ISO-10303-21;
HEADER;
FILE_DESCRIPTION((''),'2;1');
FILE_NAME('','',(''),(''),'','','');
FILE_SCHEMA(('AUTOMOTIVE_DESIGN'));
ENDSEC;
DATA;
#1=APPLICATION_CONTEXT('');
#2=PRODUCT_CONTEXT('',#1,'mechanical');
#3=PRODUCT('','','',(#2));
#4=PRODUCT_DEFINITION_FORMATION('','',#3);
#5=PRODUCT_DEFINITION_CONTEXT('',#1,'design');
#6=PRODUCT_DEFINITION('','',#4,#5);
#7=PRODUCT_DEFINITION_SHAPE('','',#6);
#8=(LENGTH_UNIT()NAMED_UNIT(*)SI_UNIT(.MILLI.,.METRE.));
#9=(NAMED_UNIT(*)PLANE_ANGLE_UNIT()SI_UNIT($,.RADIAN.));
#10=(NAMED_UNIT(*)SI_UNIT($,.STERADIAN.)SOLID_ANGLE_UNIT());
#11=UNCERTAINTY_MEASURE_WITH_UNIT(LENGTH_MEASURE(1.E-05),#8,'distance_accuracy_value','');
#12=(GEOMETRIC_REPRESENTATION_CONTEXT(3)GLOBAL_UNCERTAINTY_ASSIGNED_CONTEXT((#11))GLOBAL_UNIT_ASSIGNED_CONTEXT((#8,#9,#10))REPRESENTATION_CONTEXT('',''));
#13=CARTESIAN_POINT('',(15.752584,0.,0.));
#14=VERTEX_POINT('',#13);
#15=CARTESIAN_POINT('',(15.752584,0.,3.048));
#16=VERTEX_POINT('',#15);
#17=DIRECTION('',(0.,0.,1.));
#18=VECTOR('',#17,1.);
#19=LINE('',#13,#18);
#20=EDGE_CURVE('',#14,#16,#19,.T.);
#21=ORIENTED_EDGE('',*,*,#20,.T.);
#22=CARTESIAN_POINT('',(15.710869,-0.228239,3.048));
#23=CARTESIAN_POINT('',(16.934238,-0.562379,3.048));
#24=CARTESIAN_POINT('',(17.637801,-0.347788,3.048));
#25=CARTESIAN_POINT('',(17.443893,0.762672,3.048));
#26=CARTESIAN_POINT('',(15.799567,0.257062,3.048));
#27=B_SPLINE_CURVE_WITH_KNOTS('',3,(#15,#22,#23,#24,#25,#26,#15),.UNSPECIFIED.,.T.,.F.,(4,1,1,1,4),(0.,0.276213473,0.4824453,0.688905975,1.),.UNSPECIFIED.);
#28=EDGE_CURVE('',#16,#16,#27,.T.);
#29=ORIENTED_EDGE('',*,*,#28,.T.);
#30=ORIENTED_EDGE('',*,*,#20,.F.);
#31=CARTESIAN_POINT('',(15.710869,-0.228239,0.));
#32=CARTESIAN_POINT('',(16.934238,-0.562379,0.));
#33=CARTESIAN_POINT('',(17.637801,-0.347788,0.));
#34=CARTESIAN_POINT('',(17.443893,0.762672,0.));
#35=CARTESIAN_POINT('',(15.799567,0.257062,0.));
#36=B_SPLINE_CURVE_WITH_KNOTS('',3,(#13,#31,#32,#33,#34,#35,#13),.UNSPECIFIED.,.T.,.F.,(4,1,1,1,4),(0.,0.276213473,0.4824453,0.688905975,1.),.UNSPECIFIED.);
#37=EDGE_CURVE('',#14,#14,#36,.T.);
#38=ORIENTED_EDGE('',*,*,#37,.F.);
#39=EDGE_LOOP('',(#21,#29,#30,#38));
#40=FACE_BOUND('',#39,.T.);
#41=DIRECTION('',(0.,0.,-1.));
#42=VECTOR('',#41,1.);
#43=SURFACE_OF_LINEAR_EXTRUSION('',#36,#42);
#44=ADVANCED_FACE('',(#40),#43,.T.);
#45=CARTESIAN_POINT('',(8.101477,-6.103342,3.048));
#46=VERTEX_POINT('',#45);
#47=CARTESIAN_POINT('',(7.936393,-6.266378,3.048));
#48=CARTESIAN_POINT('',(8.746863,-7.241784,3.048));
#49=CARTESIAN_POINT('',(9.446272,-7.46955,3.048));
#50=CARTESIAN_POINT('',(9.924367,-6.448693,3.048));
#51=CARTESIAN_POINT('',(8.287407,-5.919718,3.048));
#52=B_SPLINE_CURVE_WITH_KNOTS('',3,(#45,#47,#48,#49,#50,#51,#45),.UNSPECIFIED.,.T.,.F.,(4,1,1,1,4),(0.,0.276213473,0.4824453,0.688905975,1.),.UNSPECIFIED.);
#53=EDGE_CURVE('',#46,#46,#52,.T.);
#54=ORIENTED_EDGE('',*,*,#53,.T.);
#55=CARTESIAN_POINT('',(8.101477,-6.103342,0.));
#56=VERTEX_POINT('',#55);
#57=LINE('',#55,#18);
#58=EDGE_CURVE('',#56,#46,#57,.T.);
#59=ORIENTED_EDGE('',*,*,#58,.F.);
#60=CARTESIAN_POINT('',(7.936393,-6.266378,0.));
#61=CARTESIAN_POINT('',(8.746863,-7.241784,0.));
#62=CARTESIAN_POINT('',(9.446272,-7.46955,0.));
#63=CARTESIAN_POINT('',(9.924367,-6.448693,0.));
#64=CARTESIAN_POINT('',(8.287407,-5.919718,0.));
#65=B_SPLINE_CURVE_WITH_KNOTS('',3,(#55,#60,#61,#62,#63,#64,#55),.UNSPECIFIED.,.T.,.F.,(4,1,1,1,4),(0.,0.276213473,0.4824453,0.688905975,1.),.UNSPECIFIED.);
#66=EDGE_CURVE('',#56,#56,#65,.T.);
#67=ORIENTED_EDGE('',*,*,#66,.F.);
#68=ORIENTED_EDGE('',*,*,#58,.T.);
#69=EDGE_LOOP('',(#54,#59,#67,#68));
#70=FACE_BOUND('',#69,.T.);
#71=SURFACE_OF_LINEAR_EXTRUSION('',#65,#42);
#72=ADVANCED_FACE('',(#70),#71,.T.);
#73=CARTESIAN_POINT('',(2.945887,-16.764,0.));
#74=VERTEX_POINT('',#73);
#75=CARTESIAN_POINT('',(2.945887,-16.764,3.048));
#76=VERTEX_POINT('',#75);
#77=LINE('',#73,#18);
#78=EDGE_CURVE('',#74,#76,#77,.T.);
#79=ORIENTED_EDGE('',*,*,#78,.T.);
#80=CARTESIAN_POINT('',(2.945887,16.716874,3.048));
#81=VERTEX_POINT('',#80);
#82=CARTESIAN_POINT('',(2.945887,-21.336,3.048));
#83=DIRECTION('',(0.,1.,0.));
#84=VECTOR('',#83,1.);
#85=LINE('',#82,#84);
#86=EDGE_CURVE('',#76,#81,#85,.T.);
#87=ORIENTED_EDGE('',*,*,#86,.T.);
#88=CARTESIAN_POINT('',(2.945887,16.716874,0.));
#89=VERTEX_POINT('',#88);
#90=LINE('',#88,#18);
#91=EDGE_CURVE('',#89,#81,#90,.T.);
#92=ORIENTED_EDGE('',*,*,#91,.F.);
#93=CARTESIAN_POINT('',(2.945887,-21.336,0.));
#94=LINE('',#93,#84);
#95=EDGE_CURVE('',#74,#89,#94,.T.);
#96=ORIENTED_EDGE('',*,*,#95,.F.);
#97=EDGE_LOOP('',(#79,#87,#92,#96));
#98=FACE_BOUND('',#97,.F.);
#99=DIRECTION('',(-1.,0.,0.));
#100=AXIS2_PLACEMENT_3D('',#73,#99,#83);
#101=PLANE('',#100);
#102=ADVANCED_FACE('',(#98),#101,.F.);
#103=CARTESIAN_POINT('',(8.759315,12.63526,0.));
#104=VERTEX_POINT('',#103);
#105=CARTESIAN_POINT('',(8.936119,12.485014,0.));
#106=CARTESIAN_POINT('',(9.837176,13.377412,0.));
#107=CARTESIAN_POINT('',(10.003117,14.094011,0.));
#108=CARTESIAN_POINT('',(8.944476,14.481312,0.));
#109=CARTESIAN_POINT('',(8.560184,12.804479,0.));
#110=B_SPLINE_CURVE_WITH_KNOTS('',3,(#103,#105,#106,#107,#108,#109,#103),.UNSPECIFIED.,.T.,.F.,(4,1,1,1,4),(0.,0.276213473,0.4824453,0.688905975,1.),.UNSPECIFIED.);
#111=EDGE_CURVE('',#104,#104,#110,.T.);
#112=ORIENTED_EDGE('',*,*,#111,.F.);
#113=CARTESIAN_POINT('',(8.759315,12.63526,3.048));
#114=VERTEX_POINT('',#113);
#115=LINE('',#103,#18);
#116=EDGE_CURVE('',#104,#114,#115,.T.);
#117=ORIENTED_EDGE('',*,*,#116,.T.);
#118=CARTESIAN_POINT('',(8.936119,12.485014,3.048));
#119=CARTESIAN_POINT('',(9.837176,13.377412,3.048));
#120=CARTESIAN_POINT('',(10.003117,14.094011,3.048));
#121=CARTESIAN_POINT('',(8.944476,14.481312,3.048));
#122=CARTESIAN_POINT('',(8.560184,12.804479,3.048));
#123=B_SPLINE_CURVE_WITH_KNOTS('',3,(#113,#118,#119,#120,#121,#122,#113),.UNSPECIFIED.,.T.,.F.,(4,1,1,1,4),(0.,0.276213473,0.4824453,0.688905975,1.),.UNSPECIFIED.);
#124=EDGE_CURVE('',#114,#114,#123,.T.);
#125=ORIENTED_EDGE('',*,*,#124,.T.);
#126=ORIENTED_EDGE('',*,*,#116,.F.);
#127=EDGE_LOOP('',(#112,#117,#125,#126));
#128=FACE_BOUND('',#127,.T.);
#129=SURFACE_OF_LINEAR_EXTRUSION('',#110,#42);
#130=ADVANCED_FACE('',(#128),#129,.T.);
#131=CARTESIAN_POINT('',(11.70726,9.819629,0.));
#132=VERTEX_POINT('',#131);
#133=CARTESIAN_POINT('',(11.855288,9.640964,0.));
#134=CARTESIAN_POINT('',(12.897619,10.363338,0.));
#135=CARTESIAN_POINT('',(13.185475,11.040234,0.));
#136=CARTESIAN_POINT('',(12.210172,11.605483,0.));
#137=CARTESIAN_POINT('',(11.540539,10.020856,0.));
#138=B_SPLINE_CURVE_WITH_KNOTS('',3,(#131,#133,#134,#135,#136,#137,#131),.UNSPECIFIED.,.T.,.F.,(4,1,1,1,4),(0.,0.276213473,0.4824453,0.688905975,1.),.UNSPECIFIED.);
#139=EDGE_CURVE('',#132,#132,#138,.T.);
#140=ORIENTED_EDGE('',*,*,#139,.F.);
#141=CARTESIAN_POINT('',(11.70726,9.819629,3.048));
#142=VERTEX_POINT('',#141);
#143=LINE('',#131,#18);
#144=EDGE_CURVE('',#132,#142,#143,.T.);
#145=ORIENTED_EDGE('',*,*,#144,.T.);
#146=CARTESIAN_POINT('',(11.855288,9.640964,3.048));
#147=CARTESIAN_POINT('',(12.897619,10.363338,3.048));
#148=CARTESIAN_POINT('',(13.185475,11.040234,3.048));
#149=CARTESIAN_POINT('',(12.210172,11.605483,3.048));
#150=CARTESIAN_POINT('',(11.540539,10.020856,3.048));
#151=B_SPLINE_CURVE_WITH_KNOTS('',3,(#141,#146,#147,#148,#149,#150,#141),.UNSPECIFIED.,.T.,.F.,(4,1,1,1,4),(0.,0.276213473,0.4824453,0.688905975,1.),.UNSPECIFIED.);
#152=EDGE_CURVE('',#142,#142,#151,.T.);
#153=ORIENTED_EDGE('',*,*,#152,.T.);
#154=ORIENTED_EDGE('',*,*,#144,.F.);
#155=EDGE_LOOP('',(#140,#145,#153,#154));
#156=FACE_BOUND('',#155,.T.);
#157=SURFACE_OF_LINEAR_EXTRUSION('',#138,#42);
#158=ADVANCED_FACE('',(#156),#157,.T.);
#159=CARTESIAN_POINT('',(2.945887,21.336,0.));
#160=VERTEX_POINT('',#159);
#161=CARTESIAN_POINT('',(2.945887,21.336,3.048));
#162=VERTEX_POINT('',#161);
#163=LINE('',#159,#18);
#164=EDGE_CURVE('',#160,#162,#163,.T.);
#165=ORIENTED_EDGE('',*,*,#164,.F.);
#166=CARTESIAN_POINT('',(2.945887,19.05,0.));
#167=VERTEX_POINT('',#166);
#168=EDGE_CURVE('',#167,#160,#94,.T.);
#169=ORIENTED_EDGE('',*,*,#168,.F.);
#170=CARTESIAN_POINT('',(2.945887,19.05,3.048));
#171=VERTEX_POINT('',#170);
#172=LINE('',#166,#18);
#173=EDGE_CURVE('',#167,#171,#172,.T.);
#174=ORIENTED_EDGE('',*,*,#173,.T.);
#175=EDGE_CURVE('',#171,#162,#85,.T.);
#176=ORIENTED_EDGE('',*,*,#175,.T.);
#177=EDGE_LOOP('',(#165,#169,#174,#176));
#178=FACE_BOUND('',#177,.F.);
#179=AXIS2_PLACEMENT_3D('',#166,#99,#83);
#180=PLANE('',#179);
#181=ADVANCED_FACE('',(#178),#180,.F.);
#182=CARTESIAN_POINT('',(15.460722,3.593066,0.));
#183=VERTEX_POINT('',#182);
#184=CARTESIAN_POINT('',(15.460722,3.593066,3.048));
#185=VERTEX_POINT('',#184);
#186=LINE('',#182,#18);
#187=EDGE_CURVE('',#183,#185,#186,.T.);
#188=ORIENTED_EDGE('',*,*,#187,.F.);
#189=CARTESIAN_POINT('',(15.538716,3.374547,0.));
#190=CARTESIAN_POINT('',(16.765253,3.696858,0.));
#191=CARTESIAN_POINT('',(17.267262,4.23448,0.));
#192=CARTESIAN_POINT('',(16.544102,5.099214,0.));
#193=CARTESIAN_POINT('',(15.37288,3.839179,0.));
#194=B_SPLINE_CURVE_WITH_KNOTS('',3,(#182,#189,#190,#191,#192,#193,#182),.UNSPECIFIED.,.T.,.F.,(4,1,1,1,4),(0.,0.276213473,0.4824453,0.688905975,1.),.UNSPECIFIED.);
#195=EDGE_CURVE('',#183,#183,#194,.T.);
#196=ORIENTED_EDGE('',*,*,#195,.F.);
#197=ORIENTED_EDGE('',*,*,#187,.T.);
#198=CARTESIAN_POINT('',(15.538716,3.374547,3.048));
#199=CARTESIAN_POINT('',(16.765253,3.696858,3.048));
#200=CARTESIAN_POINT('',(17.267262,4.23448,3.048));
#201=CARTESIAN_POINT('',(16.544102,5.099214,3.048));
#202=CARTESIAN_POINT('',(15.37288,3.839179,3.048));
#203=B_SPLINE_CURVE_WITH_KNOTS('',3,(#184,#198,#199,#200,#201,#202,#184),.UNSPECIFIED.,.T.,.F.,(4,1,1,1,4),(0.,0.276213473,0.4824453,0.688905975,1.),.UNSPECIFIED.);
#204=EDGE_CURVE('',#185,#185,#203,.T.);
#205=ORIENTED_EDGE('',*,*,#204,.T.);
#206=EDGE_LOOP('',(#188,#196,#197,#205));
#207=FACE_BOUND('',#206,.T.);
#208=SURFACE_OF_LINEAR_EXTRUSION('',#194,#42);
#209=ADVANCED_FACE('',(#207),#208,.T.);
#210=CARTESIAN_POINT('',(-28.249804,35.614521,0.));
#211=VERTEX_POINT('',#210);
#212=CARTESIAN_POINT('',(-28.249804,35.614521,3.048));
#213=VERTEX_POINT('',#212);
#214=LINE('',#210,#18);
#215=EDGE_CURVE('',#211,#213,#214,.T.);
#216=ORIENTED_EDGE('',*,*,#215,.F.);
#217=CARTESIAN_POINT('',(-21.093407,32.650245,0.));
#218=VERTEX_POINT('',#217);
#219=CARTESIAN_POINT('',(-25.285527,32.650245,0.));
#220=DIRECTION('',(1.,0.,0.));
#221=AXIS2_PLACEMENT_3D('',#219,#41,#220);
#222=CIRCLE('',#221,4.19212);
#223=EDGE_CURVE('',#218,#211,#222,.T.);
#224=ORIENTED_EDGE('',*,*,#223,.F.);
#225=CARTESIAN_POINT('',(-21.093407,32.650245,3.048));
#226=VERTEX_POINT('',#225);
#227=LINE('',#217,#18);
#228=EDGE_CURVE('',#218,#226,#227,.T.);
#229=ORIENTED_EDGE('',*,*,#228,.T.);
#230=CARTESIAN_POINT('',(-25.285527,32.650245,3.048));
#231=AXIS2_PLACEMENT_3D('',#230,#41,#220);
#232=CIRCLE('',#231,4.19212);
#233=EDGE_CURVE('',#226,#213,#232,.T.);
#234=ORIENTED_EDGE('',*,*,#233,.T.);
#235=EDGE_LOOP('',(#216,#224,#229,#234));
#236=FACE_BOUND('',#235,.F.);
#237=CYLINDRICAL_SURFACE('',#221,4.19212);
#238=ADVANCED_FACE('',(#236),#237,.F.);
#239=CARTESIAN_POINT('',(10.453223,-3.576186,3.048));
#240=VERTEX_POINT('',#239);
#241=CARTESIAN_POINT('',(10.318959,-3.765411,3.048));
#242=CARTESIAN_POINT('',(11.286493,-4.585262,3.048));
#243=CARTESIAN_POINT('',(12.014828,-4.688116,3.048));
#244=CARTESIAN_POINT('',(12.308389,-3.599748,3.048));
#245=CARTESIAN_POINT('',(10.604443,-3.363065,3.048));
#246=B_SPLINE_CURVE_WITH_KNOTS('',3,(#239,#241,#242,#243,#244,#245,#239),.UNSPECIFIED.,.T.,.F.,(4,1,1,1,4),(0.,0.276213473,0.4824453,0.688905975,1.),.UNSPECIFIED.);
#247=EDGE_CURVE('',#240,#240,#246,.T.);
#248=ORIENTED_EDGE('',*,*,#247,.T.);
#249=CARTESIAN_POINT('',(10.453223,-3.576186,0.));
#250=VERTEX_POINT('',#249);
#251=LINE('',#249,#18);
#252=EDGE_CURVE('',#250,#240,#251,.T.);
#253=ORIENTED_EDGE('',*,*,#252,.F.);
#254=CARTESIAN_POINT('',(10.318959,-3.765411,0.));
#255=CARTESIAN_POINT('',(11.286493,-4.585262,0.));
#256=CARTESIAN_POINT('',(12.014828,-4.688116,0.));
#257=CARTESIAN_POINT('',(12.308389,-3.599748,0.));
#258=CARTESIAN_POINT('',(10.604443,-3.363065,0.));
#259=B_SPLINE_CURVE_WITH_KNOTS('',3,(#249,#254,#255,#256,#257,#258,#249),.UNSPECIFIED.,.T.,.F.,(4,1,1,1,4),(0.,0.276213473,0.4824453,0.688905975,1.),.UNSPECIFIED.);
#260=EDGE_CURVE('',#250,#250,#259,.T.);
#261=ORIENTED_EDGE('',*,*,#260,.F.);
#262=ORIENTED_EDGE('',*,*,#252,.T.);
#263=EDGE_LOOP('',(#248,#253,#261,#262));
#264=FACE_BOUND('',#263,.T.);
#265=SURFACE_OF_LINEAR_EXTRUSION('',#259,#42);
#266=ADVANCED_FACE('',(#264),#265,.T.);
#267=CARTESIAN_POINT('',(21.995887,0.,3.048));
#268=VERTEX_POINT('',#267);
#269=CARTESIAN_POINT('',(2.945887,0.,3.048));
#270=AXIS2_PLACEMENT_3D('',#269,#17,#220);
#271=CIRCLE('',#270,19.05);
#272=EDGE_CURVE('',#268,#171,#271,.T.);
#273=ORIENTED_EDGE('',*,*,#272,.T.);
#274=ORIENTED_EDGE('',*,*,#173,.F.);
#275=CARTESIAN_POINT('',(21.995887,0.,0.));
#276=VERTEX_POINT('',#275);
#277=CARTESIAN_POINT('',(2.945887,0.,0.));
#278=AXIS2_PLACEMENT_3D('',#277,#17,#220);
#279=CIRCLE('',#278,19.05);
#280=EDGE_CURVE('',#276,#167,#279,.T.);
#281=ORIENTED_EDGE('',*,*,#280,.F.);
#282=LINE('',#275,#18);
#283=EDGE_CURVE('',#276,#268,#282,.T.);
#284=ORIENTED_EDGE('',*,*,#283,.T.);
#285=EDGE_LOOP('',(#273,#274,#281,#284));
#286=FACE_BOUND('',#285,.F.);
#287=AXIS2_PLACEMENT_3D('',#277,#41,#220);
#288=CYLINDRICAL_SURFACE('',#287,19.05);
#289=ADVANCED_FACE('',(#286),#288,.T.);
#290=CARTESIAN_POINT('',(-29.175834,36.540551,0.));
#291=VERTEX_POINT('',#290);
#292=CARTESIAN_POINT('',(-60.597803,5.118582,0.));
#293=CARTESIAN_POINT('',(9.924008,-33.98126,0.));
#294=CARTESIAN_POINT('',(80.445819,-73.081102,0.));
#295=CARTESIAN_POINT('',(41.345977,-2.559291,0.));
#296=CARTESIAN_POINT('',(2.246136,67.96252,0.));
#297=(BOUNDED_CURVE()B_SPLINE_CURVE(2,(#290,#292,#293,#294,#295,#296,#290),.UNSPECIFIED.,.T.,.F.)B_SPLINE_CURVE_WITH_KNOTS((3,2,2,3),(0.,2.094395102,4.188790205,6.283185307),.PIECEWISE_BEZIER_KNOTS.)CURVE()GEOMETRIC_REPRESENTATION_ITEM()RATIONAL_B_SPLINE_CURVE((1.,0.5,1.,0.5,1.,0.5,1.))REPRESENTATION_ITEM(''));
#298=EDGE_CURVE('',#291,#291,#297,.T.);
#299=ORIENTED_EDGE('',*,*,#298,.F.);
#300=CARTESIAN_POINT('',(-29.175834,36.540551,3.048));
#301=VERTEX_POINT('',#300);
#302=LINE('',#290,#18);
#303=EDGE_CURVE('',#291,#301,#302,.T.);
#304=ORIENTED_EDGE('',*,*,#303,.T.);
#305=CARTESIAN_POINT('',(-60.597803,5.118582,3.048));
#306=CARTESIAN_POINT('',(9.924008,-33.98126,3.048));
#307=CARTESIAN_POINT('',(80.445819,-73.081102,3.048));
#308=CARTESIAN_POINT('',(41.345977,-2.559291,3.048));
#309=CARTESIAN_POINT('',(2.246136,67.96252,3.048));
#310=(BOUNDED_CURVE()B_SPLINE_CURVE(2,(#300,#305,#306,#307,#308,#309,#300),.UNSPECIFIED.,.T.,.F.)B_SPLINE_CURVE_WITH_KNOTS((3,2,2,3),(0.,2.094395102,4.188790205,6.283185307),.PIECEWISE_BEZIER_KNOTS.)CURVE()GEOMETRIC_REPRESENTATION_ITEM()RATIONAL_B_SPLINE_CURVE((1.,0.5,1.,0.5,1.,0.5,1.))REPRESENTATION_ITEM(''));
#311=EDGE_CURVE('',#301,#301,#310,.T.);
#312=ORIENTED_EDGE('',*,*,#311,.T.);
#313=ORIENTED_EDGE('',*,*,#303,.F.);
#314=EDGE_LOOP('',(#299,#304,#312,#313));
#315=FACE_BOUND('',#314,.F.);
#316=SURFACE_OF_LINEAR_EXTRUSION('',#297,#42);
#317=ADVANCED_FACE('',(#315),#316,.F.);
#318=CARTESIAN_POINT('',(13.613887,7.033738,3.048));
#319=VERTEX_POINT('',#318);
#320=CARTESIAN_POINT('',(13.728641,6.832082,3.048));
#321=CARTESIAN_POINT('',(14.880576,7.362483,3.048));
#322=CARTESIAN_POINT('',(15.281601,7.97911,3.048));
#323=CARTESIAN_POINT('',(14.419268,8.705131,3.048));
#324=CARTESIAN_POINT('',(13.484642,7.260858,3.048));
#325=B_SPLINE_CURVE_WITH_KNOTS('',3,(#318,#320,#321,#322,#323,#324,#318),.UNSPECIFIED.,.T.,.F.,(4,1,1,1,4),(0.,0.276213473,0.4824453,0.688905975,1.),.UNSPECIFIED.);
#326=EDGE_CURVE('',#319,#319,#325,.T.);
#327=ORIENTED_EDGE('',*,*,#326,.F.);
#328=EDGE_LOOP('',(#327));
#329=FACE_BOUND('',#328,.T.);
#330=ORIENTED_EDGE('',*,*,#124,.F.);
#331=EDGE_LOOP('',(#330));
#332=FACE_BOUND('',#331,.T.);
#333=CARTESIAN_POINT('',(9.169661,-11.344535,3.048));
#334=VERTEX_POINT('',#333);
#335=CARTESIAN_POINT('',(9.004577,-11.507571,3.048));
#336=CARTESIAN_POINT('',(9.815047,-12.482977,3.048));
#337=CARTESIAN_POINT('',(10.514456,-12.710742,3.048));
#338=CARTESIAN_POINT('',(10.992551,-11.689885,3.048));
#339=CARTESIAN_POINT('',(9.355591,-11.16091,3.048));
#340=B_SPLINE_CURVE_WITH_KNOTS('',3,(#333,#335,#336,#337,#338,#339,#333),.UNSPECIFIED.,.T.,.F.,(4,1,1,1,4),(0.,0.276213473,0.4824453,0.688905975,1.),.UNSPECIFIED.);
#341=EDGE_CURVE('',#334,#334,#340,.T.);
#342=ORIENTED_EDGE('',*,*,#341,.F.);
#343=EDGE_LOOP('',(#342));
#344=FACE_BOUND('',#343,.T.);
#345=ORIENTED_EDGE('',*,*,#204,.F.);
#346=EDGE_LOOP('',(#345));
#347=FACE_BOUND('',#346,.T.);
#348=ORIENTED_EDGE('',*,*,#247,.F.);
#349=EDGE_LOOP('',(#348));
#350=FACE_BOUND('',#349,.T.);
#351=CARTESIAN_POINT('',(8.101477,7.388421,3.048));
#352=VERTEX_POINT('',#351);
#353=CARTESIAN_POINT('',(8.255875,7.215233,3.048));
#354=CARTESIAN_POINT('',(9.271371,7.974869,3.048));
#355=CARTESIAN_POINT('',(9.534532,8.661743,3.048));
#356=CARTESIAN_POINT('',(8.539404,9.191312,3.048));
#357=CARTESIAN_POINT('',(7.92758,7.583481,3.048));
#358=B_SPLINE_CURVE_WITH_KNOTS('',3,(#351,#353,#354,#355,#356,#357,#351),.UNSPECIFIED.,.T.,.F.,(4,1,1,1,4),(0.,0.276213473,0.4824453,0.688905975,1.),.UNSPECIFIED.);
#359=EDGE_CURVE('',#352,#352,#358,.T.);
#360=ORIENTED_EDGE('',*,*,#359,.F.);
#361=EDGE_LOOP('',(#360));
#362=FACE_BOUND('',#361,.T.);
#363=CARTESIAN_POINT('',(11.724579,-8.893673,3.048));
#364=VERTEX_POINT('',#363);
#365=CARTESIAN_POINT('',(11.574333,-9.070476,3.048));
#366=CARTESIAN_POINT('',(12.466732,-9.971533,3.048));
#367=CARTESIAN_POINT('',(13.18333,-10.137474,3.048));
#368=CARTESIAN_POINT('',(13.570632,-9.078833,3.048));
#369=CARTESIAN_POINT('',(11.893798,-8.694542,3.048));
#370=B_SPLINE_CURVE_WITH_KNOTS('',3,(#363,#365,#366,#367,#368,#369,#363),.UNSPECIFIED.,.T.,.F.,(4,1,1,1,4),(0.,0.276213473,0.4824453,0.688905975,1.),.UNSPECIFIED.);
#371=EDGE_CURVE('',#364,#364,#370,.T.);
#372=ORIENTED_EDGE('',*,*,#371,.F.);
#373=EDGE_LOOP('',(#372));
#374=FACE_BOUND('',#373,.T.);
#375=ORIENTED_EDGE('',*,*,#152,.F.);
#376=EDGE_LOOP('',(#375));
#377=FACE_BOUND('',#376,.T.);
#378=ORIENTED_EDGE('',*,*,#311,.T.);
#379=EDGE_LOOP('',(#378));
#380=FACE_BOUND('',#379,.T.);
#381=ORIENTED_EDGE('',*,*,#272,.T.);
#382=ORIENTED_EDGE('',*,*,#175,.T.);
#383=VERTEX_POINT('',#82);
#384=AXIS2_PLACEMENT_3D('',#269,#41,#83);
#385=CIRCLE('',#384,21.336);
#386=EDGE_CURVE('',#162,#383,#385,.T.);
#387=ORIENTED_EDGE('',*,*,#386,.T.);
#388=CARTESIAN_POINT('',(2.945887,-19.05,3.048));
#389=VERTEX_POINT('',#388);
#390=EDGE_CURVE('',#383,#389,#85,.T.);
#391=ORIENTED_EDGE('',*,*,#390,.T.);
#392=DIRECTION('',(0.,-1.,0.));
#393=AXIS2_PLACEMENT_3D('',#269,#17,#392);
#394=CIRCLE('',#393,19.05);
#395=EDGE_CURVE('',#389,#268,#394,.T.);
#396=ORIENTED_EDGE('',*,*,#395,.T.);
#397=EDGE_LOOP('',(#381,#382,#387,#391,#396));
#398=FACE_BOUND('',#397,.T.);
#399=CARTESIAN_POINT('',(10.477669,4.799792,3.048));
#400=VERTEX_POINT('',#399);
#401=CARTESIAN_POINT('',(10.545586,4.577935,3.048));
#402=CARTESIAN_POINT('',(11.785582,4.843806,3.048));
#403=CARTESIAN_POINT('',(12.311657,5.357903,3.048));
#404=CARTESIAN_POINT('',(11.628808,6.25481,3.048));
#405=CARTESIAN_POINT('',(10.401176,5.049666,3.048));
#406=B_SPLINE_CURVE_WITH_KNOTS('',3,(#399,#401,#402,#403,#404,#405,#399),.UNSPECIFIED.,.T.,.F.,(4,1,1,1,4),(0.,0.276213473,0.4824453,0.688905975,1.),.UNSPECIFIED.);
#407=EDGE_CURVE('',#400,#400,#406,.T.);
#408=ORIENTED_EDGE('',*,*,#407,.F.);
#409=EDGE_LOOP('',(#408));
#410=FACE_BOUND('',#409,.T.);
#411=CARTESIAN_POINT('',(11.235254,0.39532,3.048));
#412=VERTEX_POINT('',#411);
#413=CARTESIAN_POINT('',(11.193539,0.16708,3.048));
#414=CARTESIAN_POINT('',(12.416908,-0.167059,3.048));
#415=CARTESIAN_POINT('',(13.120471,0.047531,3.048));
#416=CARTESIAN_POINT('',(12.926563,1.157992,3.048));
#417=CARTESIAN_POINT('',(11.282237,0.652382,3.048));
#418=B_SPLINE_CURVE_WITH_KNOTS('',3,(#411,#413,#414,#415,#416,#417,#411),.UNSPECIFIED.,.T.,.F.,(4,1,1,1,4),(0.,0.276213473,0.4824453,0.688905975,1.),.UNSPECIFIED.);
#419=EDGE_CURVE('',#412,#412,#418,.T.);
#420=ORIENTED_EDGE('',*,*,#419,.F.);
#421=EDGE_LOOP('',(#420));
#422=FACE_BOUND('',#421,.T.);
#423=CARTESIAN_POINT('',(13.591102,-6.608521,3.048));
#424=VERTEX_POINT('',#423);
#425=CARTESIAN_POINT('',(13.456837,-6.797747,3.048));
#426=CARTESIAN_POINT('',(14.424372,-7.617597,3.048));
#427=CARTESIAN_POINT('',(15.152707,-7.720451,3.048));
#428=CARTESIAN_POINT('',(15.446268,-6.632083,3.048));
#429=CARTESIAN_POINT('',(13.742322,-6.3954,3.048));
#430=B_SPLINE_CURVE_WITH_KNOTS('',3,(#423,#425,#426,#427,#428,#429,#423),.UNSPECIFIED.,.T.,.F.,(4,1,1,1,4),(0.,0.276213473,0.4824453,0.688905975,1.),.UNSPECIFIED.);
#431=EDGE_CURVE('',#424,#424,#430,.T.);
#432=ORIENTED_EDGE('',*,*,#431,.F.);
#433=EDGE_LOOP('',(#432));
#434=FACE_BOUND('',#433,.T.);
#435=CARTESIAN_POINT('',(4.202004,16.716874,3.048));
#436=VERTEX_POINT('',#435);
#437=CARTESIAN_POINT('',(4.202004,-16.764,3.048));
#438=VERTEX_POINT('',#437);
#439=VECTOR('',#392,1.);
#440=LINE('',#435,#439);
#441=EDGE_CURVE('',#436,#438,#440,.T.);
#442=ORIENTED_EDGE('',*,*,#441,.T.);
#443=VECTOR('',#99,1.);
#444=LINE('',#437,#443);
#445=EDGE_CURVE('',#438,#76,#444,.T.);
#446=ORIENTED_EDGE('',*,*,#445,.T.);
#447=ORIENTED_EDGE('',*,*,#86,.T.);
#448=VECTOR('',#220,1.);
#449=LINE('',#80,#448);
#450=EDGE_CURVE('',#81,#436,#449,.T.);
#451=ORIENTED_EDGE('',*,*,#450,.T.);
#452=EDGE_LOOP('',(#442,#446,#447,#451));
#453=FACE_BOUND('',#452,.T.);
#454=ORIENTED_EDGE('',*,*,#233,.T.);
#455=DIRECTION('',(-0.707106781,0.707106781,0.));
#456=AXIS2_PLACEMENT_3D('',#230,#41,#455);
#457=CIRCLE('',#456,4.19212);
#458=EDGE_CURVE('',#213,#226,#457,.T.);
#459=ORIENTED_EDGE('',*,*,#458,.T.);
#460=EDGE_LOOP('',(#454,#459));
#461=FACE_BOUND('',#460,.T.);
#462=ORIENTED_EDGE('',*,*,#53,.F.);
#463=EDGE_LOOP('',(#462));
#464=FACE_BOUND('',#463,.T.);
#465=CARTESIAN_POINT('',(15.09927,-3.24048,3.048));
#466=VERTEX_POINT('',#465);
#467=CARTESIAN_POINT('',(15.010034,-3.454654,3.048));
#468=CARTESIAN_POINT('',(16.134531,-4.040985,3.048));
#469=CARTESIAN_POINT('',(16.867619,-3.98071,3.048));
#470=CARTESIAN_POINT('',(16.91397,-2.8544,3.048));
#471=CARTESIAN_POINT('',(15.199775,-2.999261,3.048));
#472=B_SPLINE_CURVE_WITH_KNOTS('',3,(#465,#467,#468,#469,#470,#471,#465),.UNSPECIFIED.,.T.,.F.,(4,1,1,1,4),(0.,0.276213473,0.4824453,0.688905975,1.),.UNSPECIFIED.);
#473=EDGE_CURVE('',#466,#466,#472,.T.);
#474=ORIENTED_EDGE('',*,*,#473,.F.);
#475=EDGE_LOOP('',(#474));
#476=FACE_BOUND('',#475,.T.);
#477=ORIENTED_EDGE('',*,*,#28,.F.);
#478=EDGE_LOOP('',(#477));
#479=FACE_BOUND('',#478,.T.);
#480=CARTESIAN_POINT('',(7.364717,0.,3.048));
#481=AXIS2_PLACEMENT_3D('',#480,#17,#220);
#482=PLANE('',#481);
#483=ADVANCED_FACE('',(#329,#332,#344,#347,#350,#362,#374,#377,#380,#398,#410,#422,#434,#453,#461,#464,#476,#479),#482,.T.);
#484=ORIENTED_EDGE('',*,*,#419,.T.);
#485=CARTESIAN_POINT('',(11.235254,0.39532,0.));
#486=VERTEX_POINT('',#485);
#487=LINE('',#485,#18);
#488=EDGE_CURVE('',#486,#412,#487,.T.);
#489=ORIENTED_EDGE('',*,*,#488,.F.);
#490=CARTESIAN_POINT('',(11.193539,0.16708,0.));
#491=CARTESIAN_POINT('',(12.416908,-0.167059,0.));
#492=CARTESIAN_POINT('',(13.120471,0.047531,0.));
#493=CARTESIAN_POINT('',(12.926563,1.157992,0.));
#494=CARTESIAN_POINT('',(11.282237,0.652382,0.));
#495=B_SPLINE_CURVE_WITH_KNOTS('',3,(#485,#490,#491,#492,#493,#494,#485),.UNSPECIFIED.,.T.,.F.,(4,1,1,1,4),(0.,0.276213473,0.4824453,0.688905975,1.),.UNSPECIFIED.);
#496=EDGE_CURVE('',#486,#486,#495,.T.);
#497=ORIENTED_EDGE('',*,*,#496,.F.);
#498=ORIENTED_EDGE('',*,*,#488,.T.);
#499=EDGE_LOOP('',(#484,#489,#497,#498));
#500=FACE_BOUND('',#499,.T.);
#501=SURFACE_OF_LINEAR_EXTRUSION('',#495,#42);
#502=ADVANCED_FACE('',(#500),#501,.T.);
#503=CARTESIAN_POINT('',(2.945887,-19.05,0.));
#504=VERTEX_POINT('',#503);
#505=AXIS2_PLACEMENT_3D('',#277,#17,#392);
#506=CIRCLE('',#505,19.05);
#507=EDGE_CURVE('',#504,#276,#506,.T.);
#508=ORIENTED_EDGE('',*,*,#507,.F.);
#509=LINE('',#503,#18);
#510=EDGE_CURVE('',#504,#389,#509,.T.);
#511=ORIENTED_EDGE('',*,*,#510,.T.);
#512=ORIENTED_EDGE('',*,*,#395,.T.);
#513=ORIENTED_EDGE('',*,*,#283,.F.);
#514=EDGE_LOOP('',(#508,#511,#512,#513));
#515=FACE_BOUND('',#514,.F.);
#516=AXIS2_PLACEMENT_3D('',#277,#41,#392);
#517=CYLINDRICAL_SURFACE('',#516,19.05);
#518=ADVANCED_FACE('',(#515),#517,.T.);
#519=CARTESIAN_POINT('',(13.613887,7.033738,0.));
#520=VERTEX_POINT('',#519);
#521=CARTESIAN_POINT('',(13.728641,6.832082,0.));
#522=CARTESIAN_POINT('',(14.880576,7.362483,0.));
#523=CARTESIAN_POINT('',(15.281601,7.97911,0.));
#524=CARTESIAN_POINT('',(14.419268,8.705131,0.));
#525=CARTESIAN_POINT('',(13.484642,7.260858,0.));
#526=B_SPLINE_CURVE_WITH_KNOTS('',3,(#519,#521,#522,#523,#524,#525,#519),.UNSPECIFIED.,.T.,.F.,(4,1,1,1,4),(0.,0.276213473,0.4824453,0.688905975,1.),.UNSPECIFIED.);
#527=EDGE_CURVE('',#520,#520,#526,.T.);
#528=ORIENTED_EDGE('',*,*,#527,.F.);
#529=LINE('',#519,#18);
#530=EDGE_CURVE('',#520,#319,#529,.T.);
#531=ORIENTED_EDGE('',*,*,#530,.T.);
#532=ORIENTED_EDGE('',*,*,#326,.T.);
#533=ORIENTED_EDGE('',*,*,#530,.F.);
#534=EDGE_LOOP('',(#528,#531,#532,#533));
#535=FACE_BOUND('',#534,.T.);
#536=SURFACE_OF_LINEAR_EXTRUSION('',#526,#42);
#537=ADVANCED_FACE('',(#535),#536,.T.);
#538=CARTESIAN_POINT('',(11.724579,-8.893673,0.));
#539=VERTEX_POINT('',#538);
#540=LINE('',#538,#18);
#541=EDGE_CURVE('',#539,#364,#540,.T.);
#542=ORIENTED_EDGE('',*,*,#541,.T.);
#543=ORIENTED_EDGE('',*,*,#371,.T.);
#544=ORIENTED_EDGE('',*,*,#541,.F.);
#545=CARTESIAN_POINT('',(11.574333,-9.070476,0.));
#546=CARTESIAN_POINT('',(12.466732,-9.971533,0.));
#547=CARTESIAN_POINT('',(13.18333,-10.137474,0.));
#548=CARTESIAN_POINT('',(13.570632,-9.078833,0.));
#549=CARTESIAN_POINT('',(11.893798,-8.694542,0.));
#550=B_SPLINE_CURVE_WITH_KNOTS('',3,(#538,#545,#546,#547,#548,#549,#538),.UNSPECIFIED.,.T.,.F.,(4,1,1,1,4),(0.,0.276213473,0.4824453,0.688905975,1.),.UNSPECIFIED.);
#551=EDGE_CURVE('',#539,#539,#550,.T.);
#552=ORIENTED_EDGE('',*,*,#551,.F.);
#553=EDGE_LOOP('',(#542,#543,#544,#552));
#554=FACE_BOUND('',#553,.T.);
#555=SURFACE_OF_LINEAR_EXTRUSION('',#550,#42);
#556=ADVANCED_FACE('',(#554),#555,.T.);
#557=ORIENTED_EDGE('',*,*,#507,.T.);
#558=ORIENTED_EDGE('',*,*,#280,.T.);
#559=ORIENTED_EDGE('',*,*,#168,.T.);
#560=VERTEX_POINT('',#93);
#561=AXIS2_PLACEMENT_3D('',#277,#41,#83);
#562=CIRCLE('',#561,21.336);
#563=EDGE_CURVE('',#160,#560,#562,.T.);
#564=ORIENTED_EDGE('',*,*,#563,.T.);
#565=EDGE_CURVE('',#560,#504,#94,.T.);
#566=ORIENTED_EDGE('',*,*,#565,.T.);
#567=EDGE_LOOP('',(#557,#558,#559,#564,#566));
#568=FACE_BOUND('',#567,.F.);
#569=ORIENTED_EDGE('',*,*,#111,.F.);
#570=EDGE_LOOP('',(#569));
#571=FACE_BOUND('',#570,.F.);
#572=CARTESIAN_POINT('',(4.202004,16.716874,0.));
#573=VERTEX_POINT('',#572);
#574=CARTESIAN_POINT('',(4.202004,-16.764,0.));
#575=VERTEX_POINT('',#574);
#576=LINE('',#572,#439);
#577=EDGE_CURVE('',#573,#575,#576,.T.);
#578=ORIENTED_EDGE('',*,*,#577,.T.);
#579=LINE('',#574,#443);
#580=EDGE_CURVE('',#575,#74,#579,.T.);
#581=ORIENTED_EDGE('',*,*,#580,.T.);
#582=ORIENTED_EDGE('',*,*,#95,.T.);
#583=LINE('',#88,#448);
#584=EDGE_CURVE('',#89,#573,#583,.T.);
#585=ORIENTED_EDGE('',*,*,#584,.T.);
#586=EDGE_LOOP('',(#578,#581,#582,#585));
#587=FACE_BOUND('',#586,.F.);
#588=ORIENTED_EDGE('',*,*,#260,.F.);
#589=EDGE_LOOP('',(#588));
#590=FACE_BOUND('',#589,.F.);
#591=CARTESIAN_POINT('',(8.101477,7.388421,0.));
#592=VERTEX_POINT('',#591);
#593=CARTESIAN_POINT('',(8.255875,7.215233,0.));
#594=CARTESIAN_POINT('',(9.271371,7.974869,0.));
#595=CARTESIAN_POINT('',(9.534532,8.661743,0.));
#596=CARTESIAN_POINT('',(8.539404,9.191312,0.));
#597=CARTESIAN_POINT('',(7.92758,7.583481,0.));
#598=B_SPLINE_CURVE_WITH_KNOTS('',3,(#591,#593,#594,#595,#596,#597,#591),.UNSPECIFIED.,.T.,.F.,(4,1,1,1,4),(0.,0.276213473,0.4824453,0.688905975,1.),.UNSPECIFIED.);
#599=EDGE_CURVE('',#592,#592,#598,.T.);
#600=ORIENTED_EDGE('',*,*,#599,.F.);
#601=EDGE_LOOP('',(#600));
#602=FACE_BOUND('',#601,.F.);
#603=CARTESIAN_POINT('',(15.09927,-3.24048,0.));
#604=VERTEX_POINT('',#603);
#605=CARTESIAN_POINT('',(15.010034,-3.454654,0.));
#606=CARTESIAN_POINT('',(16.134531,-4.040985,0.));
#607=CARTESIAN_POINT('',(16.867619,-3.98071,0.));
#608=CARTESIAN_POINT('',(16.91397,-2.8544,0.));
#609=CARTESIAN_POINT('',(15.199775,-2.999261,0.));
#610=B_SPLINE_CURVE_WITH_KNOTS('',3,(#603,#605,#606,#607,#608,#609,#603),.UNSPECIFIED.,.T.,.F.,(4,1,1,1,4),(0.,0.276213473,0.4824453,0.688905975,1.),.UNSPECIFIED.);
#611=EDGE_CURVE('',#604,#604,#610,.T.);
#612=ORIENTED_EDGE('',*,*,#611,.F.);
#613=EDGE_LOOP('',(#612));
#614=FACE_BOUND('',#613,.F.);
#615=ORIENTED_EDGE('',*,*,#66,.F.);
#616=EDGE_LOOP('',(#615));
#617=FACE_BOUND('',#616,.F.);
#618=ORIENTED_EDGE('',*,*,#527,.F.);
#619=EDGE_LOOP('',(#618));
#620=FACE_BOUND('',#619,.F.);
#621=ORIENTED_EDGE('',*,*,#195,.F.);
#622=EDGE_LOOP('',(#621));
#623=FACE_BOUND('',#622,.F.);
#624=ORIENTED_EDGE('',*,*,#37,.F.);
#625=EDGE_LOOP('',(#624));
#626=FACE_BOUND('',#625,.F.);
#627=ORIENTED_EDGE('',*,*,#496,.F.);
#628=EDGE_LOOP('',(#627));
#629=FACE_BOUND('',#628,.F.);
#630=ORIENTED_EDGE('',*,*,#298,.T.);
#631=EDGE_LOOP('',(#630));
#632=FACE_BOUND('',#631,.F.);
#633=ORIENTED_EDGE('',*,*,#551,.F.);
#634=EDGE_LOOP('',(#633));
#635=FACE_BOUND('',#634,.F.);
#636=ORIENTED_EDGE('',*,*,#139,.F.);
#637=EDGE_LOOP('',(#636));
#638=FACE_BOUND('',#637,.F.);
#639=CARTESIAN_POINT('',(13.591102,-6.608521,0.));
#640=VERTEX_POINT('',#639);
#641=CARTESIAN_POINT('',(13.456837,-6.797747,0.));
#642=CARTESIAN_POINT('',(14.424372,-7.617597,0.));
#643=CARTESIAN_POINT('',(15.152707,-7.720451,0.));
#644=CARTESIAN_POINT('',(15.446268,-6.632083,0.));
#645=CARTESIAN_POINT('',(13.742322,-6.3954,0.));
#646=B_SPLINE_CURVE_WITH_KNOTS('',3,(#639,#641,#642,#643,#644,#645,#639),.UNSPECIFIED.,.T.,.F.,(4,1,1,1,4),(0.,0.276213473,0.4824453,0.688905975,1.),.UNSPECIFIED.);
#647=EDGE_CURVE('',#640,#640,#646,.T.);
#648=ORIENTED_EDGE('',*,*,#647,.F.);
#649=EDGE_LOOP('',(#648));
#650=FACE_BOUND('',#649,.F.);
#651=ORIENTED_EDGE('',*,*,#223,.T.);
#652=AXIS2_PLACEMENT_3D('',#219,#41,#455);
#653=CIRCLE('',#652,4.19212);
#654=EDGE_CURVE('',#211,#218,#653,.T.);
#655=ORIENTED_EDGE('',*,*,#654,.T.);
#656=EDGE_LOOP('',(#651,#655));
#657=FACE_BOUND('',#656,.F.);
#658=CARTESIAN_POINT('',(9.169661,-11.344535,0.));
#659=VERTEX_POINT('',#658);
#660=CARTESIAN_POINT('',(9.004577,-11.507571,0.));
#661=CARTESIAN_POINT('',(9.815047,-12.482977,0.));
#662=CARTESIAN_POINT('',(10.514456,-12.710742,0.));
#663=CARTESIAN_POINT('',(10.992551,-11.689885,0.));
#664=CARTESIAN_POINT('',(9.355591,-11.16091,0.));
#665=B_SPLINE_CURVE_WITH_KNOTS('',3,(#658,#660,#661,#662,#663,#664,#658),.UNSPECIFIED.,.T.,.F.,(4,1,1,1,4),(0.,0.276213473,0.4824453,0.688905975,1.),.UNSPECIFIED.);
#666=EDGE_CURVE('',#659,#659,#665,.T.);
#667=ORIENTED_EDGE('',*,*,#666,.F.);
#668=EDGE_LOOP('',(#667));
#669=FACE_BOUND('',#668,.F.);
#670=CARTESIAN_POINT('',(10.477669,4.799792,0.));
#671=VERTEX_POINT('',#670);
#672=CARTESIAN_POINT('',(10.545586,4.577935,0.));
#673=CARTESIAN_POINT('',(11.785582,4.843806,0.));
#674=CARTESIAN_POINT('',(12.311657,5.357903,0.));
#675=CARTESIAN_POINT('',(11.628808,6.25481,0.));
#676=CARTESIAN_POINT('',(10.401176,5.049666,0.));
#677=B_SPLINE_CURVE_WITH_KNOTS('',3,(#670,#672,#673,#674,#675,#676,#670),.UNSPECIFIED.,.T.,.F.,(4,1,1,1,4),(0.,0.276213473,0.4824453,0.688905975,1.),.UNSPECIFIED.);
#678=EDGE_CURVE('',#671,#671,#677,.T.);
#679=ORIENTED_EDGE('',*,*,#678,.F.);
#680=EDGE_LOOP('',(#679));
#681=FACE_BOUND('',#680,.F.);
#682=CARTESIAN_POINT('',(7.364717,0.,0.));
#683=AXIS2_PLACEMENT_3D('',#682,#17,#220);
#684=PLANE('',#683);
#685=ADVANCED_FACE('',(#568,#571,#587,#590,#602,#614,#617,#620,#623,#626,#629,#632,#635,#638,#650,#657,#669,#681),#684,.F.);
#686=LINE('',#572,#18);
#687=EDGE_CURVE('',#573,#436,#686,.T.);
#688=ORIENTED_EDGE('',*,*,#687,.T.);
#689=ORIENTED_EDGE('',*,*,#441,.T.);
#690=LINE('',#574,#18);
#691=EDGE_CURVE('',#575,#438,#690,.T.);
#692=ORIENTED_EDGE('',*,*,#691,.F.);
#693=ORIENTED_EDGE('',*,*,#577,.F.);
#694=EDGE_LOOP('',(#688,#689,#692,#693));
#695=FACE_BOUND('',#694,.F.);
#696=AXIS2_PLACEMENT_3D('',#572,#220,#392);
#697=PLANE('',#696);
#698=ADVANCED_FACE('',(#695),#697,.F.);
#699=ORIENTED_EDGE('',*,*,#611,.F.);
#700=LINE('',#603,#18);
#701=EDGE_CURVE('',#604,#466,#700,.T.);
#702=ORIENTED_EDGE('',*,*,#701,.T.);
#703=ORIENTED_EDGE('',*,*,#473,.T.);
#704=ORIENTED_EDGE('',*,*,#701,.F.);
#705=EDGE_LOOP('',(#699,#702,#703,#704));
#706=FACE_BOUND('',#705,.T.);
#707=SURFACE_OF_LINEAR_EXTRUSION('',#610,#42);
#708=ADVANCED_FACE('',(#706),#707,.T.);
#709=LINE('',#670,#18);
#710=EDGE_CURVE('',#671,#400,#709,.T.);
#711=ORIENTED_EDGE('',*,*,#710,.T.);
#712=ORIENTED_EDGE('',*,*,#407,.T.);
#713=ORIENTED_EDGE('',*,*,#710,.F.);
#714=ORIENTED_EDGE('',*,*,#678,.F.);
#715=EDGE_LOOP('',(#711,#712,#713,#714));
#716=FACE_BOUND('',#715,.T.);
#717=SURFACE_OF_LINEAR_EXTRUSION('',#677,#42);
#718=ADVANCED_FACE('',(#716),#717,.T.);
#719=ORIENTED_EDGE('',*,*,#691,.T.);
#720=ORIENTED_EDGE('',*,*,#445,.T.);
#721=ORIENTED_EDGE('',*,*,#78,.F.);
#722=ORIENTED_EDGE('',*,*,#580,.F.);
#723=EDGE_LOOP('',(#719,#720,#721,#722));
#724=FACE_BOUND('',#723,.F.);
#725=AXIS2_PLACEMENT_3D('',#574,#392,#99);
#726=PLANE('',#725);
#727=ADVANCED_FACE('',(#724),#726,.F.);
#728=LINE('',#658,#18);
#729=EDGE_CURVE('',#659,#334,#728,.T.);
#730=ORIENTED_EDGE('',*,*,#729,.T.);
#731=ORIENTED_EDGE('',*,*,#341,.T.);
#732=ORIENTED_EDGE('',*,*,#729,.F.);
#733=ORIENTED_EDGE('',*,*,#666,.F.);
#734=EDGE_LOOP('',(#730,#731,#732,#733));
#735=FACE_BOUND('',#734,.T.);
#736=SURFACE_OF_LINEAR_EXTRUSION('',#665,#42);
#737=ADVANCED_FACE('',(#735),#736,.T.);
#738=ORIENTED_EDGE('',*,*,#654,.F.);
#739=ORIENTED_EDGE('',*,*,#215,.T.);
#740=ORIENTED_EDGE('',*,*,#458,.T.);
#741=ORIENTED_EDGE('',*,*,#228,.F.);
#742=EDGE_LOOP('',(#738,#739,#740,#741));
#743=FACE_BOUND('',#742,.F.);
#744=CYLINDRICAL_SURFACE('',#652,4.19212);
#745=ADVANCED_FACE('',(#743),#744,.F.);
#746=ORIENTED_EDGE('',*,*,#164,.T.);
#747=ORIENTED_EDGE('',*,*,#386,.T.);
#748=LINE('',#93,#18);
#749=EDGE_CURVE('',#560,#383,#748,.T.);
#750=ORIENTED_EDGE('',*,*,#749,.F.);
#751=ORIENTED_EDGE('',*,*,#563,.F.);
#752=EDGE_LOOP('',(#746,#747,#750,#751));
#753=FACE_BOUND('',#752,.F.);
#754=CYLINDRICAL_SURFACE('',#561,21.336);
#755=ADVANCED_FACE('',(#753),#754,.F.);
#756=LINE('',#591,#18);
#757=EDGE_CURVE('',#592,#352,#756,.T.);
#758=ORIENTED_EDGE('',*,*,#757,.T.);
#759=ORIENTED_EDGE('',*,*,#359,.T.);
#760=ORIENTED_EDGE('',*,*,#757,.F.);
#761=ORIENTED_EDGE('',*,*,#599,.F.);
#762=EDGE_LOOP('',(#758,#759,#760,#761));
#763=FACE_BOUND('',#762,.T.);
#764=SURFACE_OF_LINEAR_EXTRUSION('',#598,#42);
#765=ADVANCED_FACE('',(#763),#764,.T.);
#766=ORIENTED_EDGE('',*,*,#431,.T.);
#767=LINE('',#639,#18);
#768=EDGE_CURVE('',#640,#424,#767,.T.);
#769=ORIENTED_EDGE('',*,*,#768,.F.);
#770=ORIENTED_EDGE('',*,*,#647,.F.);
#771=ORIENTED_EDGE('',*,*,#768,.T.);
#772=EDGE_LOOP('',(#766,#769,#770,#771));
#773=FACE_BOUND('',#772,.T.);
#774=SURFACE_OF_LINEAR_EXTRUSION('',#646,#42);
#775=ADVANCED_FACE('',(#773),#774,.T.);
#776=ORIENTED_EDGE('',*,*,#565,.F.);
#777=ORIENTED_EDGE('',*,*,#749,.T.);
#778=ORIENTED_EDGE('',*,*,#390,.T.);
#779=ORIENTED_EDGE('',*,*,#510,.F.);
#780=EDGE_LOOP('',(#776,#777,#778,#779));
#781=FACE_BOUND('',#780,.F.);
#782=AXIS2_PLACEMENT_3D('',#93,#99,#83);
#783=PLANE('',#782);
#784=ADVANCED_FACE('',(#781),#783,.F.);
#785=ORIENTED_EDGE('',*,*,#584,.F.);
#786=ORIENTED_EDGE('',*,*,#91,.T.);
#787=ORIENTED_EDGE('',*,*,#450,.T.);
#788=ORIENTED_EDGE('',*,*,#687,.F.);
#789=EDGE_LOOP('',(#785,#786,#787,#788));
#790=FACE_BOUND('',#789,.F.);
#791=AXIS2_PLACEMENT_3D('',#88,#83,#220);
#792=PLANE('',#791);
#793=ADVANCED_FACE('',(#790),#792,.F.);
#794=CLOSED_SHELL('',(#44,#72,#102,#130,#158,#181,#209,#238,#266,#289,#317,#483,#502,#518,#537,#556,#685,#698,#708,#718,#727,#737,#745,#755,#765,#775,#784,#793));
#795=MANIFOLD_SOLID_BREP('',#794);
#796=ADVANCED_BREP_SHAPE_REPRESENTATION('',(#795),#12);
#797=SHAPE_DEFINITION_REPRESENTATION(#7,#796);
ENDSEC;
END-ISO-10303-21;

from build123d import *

# Parameters (mm, degrees)
F1_DEPTH = 5.08
F2_SCALE = 0.6


with BuildPart() as f1:
    # F0 (on Top) → F1 (new body)
    with BuildSketch(Plane.XY):
        with BuildLine():
            add(Edge.make_bspline(
                [(-53.5362008634, 60.9009180024), (-105.9061494937, 8.5309693721), (11.6302018251, -56.6354333164), (129.1665531438, -121.8018360048), (64.0001504554, -4.2654846861), (-1.1662522331, 113.2708666327), (-53.5362008634, 60.9009180024)],
                knots=[0, 0, 0, 2.0943951024, 2.0943951024, 4.1887902048, 4.1887902048, 6.2831853072, 6.2831853072, 6.2831853072], degree=2, weights=[1, 0.5, 1, 0.5, 1, 0.5, 1]))
        make_face()
        with BuildLine():
            ThreePointArc((0, 35.56), (25.144717139, 25.144717139), (35.56, 0))
            ThreePointArc((35.56, 0), (25.144717139, -25.144717139), (0, -35.56))
            ThreePointArc((0, -35.56), (-35.56, 0), (0, 35.56))
        make_face(mode=Mode.SUBTRACT)
        with BuildLine():
            ThreePointArc((-40.0654902612, 54.4170743002), (-49.726115368, 47.9620509749), (-51.9928181254, 59.3575352644))
            ThreePointArc((-51.9928181254, 59.3575352644), (-44.3785989544, 60.8720976255), (-40.0654902612, 54.4170743002))
        make_face(mode=Mode.SUBTRACT)
        with BuildLine():
            Line((0, 31.75), (0, 35.56))
            ThreePointArc((0, 35.56), (-35.56, 0), (0, -35.56))
            Line((0, -35.56), (0, -31.75))
            ThreePointArc((0, -31.75), (-31.75, 0), (0, 31.75))
        make_face()
        with BuildLine():
            Line((0, 27.94), (0, 31.75))
            ThreePointArc((0, 31.75), (-31.75, 0), (0, -31.75))
            Line((0, -31.75), (0, -27.94))
            Line((0, -27.94), (0, 0))
            Line((0, 0), (0, 27.86145611))
            Line((0, 27.86145611), (0, 27.94))
        make_face()
        with BuildLine():
            ThreePointArc((31.75, 0), (22.4506403027, 22.4506403027), (0, 31.75))
            Line((0, 31.75), (0, 27.94))
            Line((0, 27.94), (0, 27.86145611))
            Line((0, 27.86145611), (2.0935289419, 27.86145611))
            Line((2.0935289419, 27.86145611), (2.0935289419, -27.94))
            Line((2.0935289419, -27.94), (0, -27.94))
            Line((0, -27.94), (0, -31.75))
            ThreePointArc((0, -31.75), (22.4506403027, -22.4506403027), (31.75, 0))
        make_face()
        with BuildLine():
            add(Edge.make_bspline(
                [(10.3729563583, -18.9075581729), (10.0978168554, -19.1792849013), (11.4486008089, -20.8049615719), (12.6142824112, -21.1845704807), (13.4111066609, -19.4831420286), (10.6828407916, -18.6015174834), (10.3729563583, -18.9075581729)],
                knots=[0, 0, 0, 0, 0.2762134725, 0.4824453001, 0.6889059751, 1, 1, 1, 1], degree=3))
        make_face(mode=Mode.SUBTRACT)
        with BuildLine():
            add(Edge.make_bspline(
                [(8.5926494379, -10.1722370818), (8.317509935, -10.4439638101), (9.6682938885, -12.0696404807), (10.8339754908, -12.4492493895), (11.6307997405, -10.7478209375), (8.9025338712, -9.8661963922), (8.5926494379, -10.1722370818)],
                knots=[0, 0, 0, 0, 0.2762134725, 0.4824453001, 0.6889059751, 1, 1, 1, 1], degree=3))
        make_face(mode=Mode.SUBTRACT)
        with BuildLine():
            add(Edge.make_bspline(
                [(14.6311537152, -14.8227876052), (14.380743746, -15.117460319), (15.8680746165, -16.6192222204), (17.0624055447, -16.8957907568), (17.7079083771, -15.1313889444), (14.9131857411, -14.4909032849), (14.6311537152, -14.8227876052)],
                knots=[0, 0, 0, 0, 0.2762134725, 0.4824453001, 0.6889059751, 1, 1, 1, 1], degree=3))
        make_face(mode=Mode.SUBTRACT)
        with BuildLine():
            add(Edge.make_bspline(
                [(17.7420255732, -11.0142019342), (17.5182509087, -11.3295779962), (19.1308092101, -12.6959958134), (20.3446998849, -12.8674191239), (20.8339686336, -11.0534721142), (17.9940587576, -10.6589998232), (17.7420255732, -11.0142019342)],
                knots=[0, 0, 0, 0, 0.2762134725, 0.4824453001, 0.6889059751, 1, 1, 1, 1], degree=3))
        make_face(mode=Mode.SUBTRACT)
        with BuildLine():
            add(Edge.make_bspline(
                [(12.5122274276, -5.9603096682), (12.2884527631, -6.2756857302), (13.9010110645, -7.6421035474), (15.1149017393, -7.8135268579), (15.604170488, -5.9995798482), (12.764260612, -5.6051075572), (12.5122274276, -5.9603096682)],
                knots=[0, 0, 0, 0, 0.2762134725, 0.4824453001, 0.6889059751, 1, 1, 1, 1], degree=3))
        make_face(mode=Mode.SUBTRACT)
        with BuildLine():
            add(Edge.make_bspline(
                [(20.25563831, -5.4008006118), (20.1069115263, -5.7577564981), (21.9810741625, -6.7349751737), (23.202886243, -6.6345174135), (23.2801389349, -4.7573334364), (20.4231464817, -4.998767929), (20.25563831, -5.4008006118)],
                knots=[0, 0, 0, 0, 0.2762134725, 0.4824453001, 0.6889059751, 1, 1, 1, 1], degree=3))
        make_face(mode=Mode.SUBTRACT)
        with BuildLine():
            add(Edge.make_bspline(
                [(13.8156125322, 0.6588663221), (13.7460874944, 0.2784672815), (15.7850347627, -0.2784312403), (16.9576399554, 0.0792188454), (16.6344609001, 1.9299870537), (13.8939172711, 1.0873025875), (13.8156125322, 0.6588663221)],
                knots=[0, 0, 0, 0, 0.2762134725, 0.4824453001, 0.6889059751, 1, 1, 1, 1], degree=3))
        make_face(mode=Mode.SUBTRACT)
        with BuildLine():
            add(Edge.make_bspline(
                [(21.3444959372, 0), (21.2749708994, -0.3803990406), (23.3139181678, -0.9372975624), (24.4865233604, -0.5796474767), (24.1633443052, 1.2711207316), (21.4228006762, 0.4284362654), (21.3444959372, 0)],
                knots=[0, 0, 0, 0, 0.2762134725, 0.4824453001, 0.6889059751, 1, 1, 1, 1], degree=3))
        make_face(mode=Mode.SUBTRACT)
        with BuildLine():
            add(Edge.make_bspline(
                [(20.8580587059, 5.9884428047), (20.9880477773, 5.624245053), (23.0322771695, 6.16143042), (23.8689580121, 7.0574670762), (22.6636926362, 8.4986898335), (20.7116544664, 6.3986318639), (20.8580587059, 5.9884428047)],
                knots=[0, 0, 0, 0, 0.2762134725, 0.4824453001, 0.6889059751, 1, 1, 1, 1], degree=3))
        make_face(mode=Mode.SUBTRACT)
        with BuildLine():
            add(Edge.make_bspline(
                [(12.5529703746, 7.999653928), (12.6661647801, 7.6298915887), (14.7328257498, 8.0730104926), (15.6096161105, 8.9298390548), (14.4715345744, 10.424682886), (12.4254816504, 8.4161102773), (12.5529703746, 7.999653928)],
                knots=[0, 0, 0, 0, 0.2762134725, 0.4824453001, 0.6889059751, 1, 1, 1, 1], degree=3))
        make_face(mode=Mode.SUBTRACT)
        with BuildLine():
            add(Edge.make_bspline(
                [(8.5926494379, 12.3140355572), (8.8499809693, 12.0253875987), (10.5424735982, 13.2914486667), (10.9810758315, 14.4362388669), (9.3225285259, 15.3188534473), (8.3028217872, 12.6391343092), (8.5926494379, 12.3140355572)],
                knots=[0, 0, 0, 0, 0.2762134725, 0.4824453001, 0.6889059751, 1, 1, 1, 1], degree=3))
        make_face(mode=Mode.SUBTRACT)
        with BuildLine():
            add(Edge.make_bspline(
                [(17.78, 11.7228959575), (17.9712565211, 11.3868035534), (19.8911482155, 12.2708045764), (20.5595228636, 13.298516526), (19.1223024716, 14.508551735), (17.5645913872, 12.1014304938), (17.78, 11.7228959575)],
                knots=[0, 0, 0, 0, 0.2762134725, 0.4824453001, 0.6889059751, 1, 1, 1, 1], degree=3))
        make_face(mode=Mode.SUBTRACT)
        with BuildLine():
            add(Edge.make_bspline(
                [(14.6022886038, 16.3660477847), (14.8490013421, 16.0682727258), (16.586220401, 17.2722294809), (17.0659806291, 18.4003902163), (15.4404744353, 19.3424715696), (14.3244206994, 16.7014262178), (14.6022886038, 16.3660477847)],
                knots=[0, 0, 0, 0, 0.2762134725, 0.4824453001, 0.6889059751, 1, 1, 1, 1], degree=3))
        make_face(mode=Mode.SUBTRACT)
        with BuildLine():
            add(Edge.make_bspline(
                [(9.6890470013, 21.0587661713), (9.9837197151, 20.8083562021), (11.4854816165, 22.2956870726), (11.7620501529, 23.4900180009), (9.9976483405, 24.1355208332), (9.357162681, 21.3407981972), (9.6890470013, 21.0587661713)],
                knots=[0, 0, 0, 0, 0.2762134725, 0.4824453001, 0.6889059751, 1, 1, 1, 1], degree=3))
        make_face(mode=Mode.SUBTRACT)
    extrude(amount=F1_DEPTH)


with BuildPart() as f1_1:
    # F2: moved
    add(f1.part.scale(F2_SCALE).moved(Location((2.9458868556, 0, 0))))


solid = f1_1.part
